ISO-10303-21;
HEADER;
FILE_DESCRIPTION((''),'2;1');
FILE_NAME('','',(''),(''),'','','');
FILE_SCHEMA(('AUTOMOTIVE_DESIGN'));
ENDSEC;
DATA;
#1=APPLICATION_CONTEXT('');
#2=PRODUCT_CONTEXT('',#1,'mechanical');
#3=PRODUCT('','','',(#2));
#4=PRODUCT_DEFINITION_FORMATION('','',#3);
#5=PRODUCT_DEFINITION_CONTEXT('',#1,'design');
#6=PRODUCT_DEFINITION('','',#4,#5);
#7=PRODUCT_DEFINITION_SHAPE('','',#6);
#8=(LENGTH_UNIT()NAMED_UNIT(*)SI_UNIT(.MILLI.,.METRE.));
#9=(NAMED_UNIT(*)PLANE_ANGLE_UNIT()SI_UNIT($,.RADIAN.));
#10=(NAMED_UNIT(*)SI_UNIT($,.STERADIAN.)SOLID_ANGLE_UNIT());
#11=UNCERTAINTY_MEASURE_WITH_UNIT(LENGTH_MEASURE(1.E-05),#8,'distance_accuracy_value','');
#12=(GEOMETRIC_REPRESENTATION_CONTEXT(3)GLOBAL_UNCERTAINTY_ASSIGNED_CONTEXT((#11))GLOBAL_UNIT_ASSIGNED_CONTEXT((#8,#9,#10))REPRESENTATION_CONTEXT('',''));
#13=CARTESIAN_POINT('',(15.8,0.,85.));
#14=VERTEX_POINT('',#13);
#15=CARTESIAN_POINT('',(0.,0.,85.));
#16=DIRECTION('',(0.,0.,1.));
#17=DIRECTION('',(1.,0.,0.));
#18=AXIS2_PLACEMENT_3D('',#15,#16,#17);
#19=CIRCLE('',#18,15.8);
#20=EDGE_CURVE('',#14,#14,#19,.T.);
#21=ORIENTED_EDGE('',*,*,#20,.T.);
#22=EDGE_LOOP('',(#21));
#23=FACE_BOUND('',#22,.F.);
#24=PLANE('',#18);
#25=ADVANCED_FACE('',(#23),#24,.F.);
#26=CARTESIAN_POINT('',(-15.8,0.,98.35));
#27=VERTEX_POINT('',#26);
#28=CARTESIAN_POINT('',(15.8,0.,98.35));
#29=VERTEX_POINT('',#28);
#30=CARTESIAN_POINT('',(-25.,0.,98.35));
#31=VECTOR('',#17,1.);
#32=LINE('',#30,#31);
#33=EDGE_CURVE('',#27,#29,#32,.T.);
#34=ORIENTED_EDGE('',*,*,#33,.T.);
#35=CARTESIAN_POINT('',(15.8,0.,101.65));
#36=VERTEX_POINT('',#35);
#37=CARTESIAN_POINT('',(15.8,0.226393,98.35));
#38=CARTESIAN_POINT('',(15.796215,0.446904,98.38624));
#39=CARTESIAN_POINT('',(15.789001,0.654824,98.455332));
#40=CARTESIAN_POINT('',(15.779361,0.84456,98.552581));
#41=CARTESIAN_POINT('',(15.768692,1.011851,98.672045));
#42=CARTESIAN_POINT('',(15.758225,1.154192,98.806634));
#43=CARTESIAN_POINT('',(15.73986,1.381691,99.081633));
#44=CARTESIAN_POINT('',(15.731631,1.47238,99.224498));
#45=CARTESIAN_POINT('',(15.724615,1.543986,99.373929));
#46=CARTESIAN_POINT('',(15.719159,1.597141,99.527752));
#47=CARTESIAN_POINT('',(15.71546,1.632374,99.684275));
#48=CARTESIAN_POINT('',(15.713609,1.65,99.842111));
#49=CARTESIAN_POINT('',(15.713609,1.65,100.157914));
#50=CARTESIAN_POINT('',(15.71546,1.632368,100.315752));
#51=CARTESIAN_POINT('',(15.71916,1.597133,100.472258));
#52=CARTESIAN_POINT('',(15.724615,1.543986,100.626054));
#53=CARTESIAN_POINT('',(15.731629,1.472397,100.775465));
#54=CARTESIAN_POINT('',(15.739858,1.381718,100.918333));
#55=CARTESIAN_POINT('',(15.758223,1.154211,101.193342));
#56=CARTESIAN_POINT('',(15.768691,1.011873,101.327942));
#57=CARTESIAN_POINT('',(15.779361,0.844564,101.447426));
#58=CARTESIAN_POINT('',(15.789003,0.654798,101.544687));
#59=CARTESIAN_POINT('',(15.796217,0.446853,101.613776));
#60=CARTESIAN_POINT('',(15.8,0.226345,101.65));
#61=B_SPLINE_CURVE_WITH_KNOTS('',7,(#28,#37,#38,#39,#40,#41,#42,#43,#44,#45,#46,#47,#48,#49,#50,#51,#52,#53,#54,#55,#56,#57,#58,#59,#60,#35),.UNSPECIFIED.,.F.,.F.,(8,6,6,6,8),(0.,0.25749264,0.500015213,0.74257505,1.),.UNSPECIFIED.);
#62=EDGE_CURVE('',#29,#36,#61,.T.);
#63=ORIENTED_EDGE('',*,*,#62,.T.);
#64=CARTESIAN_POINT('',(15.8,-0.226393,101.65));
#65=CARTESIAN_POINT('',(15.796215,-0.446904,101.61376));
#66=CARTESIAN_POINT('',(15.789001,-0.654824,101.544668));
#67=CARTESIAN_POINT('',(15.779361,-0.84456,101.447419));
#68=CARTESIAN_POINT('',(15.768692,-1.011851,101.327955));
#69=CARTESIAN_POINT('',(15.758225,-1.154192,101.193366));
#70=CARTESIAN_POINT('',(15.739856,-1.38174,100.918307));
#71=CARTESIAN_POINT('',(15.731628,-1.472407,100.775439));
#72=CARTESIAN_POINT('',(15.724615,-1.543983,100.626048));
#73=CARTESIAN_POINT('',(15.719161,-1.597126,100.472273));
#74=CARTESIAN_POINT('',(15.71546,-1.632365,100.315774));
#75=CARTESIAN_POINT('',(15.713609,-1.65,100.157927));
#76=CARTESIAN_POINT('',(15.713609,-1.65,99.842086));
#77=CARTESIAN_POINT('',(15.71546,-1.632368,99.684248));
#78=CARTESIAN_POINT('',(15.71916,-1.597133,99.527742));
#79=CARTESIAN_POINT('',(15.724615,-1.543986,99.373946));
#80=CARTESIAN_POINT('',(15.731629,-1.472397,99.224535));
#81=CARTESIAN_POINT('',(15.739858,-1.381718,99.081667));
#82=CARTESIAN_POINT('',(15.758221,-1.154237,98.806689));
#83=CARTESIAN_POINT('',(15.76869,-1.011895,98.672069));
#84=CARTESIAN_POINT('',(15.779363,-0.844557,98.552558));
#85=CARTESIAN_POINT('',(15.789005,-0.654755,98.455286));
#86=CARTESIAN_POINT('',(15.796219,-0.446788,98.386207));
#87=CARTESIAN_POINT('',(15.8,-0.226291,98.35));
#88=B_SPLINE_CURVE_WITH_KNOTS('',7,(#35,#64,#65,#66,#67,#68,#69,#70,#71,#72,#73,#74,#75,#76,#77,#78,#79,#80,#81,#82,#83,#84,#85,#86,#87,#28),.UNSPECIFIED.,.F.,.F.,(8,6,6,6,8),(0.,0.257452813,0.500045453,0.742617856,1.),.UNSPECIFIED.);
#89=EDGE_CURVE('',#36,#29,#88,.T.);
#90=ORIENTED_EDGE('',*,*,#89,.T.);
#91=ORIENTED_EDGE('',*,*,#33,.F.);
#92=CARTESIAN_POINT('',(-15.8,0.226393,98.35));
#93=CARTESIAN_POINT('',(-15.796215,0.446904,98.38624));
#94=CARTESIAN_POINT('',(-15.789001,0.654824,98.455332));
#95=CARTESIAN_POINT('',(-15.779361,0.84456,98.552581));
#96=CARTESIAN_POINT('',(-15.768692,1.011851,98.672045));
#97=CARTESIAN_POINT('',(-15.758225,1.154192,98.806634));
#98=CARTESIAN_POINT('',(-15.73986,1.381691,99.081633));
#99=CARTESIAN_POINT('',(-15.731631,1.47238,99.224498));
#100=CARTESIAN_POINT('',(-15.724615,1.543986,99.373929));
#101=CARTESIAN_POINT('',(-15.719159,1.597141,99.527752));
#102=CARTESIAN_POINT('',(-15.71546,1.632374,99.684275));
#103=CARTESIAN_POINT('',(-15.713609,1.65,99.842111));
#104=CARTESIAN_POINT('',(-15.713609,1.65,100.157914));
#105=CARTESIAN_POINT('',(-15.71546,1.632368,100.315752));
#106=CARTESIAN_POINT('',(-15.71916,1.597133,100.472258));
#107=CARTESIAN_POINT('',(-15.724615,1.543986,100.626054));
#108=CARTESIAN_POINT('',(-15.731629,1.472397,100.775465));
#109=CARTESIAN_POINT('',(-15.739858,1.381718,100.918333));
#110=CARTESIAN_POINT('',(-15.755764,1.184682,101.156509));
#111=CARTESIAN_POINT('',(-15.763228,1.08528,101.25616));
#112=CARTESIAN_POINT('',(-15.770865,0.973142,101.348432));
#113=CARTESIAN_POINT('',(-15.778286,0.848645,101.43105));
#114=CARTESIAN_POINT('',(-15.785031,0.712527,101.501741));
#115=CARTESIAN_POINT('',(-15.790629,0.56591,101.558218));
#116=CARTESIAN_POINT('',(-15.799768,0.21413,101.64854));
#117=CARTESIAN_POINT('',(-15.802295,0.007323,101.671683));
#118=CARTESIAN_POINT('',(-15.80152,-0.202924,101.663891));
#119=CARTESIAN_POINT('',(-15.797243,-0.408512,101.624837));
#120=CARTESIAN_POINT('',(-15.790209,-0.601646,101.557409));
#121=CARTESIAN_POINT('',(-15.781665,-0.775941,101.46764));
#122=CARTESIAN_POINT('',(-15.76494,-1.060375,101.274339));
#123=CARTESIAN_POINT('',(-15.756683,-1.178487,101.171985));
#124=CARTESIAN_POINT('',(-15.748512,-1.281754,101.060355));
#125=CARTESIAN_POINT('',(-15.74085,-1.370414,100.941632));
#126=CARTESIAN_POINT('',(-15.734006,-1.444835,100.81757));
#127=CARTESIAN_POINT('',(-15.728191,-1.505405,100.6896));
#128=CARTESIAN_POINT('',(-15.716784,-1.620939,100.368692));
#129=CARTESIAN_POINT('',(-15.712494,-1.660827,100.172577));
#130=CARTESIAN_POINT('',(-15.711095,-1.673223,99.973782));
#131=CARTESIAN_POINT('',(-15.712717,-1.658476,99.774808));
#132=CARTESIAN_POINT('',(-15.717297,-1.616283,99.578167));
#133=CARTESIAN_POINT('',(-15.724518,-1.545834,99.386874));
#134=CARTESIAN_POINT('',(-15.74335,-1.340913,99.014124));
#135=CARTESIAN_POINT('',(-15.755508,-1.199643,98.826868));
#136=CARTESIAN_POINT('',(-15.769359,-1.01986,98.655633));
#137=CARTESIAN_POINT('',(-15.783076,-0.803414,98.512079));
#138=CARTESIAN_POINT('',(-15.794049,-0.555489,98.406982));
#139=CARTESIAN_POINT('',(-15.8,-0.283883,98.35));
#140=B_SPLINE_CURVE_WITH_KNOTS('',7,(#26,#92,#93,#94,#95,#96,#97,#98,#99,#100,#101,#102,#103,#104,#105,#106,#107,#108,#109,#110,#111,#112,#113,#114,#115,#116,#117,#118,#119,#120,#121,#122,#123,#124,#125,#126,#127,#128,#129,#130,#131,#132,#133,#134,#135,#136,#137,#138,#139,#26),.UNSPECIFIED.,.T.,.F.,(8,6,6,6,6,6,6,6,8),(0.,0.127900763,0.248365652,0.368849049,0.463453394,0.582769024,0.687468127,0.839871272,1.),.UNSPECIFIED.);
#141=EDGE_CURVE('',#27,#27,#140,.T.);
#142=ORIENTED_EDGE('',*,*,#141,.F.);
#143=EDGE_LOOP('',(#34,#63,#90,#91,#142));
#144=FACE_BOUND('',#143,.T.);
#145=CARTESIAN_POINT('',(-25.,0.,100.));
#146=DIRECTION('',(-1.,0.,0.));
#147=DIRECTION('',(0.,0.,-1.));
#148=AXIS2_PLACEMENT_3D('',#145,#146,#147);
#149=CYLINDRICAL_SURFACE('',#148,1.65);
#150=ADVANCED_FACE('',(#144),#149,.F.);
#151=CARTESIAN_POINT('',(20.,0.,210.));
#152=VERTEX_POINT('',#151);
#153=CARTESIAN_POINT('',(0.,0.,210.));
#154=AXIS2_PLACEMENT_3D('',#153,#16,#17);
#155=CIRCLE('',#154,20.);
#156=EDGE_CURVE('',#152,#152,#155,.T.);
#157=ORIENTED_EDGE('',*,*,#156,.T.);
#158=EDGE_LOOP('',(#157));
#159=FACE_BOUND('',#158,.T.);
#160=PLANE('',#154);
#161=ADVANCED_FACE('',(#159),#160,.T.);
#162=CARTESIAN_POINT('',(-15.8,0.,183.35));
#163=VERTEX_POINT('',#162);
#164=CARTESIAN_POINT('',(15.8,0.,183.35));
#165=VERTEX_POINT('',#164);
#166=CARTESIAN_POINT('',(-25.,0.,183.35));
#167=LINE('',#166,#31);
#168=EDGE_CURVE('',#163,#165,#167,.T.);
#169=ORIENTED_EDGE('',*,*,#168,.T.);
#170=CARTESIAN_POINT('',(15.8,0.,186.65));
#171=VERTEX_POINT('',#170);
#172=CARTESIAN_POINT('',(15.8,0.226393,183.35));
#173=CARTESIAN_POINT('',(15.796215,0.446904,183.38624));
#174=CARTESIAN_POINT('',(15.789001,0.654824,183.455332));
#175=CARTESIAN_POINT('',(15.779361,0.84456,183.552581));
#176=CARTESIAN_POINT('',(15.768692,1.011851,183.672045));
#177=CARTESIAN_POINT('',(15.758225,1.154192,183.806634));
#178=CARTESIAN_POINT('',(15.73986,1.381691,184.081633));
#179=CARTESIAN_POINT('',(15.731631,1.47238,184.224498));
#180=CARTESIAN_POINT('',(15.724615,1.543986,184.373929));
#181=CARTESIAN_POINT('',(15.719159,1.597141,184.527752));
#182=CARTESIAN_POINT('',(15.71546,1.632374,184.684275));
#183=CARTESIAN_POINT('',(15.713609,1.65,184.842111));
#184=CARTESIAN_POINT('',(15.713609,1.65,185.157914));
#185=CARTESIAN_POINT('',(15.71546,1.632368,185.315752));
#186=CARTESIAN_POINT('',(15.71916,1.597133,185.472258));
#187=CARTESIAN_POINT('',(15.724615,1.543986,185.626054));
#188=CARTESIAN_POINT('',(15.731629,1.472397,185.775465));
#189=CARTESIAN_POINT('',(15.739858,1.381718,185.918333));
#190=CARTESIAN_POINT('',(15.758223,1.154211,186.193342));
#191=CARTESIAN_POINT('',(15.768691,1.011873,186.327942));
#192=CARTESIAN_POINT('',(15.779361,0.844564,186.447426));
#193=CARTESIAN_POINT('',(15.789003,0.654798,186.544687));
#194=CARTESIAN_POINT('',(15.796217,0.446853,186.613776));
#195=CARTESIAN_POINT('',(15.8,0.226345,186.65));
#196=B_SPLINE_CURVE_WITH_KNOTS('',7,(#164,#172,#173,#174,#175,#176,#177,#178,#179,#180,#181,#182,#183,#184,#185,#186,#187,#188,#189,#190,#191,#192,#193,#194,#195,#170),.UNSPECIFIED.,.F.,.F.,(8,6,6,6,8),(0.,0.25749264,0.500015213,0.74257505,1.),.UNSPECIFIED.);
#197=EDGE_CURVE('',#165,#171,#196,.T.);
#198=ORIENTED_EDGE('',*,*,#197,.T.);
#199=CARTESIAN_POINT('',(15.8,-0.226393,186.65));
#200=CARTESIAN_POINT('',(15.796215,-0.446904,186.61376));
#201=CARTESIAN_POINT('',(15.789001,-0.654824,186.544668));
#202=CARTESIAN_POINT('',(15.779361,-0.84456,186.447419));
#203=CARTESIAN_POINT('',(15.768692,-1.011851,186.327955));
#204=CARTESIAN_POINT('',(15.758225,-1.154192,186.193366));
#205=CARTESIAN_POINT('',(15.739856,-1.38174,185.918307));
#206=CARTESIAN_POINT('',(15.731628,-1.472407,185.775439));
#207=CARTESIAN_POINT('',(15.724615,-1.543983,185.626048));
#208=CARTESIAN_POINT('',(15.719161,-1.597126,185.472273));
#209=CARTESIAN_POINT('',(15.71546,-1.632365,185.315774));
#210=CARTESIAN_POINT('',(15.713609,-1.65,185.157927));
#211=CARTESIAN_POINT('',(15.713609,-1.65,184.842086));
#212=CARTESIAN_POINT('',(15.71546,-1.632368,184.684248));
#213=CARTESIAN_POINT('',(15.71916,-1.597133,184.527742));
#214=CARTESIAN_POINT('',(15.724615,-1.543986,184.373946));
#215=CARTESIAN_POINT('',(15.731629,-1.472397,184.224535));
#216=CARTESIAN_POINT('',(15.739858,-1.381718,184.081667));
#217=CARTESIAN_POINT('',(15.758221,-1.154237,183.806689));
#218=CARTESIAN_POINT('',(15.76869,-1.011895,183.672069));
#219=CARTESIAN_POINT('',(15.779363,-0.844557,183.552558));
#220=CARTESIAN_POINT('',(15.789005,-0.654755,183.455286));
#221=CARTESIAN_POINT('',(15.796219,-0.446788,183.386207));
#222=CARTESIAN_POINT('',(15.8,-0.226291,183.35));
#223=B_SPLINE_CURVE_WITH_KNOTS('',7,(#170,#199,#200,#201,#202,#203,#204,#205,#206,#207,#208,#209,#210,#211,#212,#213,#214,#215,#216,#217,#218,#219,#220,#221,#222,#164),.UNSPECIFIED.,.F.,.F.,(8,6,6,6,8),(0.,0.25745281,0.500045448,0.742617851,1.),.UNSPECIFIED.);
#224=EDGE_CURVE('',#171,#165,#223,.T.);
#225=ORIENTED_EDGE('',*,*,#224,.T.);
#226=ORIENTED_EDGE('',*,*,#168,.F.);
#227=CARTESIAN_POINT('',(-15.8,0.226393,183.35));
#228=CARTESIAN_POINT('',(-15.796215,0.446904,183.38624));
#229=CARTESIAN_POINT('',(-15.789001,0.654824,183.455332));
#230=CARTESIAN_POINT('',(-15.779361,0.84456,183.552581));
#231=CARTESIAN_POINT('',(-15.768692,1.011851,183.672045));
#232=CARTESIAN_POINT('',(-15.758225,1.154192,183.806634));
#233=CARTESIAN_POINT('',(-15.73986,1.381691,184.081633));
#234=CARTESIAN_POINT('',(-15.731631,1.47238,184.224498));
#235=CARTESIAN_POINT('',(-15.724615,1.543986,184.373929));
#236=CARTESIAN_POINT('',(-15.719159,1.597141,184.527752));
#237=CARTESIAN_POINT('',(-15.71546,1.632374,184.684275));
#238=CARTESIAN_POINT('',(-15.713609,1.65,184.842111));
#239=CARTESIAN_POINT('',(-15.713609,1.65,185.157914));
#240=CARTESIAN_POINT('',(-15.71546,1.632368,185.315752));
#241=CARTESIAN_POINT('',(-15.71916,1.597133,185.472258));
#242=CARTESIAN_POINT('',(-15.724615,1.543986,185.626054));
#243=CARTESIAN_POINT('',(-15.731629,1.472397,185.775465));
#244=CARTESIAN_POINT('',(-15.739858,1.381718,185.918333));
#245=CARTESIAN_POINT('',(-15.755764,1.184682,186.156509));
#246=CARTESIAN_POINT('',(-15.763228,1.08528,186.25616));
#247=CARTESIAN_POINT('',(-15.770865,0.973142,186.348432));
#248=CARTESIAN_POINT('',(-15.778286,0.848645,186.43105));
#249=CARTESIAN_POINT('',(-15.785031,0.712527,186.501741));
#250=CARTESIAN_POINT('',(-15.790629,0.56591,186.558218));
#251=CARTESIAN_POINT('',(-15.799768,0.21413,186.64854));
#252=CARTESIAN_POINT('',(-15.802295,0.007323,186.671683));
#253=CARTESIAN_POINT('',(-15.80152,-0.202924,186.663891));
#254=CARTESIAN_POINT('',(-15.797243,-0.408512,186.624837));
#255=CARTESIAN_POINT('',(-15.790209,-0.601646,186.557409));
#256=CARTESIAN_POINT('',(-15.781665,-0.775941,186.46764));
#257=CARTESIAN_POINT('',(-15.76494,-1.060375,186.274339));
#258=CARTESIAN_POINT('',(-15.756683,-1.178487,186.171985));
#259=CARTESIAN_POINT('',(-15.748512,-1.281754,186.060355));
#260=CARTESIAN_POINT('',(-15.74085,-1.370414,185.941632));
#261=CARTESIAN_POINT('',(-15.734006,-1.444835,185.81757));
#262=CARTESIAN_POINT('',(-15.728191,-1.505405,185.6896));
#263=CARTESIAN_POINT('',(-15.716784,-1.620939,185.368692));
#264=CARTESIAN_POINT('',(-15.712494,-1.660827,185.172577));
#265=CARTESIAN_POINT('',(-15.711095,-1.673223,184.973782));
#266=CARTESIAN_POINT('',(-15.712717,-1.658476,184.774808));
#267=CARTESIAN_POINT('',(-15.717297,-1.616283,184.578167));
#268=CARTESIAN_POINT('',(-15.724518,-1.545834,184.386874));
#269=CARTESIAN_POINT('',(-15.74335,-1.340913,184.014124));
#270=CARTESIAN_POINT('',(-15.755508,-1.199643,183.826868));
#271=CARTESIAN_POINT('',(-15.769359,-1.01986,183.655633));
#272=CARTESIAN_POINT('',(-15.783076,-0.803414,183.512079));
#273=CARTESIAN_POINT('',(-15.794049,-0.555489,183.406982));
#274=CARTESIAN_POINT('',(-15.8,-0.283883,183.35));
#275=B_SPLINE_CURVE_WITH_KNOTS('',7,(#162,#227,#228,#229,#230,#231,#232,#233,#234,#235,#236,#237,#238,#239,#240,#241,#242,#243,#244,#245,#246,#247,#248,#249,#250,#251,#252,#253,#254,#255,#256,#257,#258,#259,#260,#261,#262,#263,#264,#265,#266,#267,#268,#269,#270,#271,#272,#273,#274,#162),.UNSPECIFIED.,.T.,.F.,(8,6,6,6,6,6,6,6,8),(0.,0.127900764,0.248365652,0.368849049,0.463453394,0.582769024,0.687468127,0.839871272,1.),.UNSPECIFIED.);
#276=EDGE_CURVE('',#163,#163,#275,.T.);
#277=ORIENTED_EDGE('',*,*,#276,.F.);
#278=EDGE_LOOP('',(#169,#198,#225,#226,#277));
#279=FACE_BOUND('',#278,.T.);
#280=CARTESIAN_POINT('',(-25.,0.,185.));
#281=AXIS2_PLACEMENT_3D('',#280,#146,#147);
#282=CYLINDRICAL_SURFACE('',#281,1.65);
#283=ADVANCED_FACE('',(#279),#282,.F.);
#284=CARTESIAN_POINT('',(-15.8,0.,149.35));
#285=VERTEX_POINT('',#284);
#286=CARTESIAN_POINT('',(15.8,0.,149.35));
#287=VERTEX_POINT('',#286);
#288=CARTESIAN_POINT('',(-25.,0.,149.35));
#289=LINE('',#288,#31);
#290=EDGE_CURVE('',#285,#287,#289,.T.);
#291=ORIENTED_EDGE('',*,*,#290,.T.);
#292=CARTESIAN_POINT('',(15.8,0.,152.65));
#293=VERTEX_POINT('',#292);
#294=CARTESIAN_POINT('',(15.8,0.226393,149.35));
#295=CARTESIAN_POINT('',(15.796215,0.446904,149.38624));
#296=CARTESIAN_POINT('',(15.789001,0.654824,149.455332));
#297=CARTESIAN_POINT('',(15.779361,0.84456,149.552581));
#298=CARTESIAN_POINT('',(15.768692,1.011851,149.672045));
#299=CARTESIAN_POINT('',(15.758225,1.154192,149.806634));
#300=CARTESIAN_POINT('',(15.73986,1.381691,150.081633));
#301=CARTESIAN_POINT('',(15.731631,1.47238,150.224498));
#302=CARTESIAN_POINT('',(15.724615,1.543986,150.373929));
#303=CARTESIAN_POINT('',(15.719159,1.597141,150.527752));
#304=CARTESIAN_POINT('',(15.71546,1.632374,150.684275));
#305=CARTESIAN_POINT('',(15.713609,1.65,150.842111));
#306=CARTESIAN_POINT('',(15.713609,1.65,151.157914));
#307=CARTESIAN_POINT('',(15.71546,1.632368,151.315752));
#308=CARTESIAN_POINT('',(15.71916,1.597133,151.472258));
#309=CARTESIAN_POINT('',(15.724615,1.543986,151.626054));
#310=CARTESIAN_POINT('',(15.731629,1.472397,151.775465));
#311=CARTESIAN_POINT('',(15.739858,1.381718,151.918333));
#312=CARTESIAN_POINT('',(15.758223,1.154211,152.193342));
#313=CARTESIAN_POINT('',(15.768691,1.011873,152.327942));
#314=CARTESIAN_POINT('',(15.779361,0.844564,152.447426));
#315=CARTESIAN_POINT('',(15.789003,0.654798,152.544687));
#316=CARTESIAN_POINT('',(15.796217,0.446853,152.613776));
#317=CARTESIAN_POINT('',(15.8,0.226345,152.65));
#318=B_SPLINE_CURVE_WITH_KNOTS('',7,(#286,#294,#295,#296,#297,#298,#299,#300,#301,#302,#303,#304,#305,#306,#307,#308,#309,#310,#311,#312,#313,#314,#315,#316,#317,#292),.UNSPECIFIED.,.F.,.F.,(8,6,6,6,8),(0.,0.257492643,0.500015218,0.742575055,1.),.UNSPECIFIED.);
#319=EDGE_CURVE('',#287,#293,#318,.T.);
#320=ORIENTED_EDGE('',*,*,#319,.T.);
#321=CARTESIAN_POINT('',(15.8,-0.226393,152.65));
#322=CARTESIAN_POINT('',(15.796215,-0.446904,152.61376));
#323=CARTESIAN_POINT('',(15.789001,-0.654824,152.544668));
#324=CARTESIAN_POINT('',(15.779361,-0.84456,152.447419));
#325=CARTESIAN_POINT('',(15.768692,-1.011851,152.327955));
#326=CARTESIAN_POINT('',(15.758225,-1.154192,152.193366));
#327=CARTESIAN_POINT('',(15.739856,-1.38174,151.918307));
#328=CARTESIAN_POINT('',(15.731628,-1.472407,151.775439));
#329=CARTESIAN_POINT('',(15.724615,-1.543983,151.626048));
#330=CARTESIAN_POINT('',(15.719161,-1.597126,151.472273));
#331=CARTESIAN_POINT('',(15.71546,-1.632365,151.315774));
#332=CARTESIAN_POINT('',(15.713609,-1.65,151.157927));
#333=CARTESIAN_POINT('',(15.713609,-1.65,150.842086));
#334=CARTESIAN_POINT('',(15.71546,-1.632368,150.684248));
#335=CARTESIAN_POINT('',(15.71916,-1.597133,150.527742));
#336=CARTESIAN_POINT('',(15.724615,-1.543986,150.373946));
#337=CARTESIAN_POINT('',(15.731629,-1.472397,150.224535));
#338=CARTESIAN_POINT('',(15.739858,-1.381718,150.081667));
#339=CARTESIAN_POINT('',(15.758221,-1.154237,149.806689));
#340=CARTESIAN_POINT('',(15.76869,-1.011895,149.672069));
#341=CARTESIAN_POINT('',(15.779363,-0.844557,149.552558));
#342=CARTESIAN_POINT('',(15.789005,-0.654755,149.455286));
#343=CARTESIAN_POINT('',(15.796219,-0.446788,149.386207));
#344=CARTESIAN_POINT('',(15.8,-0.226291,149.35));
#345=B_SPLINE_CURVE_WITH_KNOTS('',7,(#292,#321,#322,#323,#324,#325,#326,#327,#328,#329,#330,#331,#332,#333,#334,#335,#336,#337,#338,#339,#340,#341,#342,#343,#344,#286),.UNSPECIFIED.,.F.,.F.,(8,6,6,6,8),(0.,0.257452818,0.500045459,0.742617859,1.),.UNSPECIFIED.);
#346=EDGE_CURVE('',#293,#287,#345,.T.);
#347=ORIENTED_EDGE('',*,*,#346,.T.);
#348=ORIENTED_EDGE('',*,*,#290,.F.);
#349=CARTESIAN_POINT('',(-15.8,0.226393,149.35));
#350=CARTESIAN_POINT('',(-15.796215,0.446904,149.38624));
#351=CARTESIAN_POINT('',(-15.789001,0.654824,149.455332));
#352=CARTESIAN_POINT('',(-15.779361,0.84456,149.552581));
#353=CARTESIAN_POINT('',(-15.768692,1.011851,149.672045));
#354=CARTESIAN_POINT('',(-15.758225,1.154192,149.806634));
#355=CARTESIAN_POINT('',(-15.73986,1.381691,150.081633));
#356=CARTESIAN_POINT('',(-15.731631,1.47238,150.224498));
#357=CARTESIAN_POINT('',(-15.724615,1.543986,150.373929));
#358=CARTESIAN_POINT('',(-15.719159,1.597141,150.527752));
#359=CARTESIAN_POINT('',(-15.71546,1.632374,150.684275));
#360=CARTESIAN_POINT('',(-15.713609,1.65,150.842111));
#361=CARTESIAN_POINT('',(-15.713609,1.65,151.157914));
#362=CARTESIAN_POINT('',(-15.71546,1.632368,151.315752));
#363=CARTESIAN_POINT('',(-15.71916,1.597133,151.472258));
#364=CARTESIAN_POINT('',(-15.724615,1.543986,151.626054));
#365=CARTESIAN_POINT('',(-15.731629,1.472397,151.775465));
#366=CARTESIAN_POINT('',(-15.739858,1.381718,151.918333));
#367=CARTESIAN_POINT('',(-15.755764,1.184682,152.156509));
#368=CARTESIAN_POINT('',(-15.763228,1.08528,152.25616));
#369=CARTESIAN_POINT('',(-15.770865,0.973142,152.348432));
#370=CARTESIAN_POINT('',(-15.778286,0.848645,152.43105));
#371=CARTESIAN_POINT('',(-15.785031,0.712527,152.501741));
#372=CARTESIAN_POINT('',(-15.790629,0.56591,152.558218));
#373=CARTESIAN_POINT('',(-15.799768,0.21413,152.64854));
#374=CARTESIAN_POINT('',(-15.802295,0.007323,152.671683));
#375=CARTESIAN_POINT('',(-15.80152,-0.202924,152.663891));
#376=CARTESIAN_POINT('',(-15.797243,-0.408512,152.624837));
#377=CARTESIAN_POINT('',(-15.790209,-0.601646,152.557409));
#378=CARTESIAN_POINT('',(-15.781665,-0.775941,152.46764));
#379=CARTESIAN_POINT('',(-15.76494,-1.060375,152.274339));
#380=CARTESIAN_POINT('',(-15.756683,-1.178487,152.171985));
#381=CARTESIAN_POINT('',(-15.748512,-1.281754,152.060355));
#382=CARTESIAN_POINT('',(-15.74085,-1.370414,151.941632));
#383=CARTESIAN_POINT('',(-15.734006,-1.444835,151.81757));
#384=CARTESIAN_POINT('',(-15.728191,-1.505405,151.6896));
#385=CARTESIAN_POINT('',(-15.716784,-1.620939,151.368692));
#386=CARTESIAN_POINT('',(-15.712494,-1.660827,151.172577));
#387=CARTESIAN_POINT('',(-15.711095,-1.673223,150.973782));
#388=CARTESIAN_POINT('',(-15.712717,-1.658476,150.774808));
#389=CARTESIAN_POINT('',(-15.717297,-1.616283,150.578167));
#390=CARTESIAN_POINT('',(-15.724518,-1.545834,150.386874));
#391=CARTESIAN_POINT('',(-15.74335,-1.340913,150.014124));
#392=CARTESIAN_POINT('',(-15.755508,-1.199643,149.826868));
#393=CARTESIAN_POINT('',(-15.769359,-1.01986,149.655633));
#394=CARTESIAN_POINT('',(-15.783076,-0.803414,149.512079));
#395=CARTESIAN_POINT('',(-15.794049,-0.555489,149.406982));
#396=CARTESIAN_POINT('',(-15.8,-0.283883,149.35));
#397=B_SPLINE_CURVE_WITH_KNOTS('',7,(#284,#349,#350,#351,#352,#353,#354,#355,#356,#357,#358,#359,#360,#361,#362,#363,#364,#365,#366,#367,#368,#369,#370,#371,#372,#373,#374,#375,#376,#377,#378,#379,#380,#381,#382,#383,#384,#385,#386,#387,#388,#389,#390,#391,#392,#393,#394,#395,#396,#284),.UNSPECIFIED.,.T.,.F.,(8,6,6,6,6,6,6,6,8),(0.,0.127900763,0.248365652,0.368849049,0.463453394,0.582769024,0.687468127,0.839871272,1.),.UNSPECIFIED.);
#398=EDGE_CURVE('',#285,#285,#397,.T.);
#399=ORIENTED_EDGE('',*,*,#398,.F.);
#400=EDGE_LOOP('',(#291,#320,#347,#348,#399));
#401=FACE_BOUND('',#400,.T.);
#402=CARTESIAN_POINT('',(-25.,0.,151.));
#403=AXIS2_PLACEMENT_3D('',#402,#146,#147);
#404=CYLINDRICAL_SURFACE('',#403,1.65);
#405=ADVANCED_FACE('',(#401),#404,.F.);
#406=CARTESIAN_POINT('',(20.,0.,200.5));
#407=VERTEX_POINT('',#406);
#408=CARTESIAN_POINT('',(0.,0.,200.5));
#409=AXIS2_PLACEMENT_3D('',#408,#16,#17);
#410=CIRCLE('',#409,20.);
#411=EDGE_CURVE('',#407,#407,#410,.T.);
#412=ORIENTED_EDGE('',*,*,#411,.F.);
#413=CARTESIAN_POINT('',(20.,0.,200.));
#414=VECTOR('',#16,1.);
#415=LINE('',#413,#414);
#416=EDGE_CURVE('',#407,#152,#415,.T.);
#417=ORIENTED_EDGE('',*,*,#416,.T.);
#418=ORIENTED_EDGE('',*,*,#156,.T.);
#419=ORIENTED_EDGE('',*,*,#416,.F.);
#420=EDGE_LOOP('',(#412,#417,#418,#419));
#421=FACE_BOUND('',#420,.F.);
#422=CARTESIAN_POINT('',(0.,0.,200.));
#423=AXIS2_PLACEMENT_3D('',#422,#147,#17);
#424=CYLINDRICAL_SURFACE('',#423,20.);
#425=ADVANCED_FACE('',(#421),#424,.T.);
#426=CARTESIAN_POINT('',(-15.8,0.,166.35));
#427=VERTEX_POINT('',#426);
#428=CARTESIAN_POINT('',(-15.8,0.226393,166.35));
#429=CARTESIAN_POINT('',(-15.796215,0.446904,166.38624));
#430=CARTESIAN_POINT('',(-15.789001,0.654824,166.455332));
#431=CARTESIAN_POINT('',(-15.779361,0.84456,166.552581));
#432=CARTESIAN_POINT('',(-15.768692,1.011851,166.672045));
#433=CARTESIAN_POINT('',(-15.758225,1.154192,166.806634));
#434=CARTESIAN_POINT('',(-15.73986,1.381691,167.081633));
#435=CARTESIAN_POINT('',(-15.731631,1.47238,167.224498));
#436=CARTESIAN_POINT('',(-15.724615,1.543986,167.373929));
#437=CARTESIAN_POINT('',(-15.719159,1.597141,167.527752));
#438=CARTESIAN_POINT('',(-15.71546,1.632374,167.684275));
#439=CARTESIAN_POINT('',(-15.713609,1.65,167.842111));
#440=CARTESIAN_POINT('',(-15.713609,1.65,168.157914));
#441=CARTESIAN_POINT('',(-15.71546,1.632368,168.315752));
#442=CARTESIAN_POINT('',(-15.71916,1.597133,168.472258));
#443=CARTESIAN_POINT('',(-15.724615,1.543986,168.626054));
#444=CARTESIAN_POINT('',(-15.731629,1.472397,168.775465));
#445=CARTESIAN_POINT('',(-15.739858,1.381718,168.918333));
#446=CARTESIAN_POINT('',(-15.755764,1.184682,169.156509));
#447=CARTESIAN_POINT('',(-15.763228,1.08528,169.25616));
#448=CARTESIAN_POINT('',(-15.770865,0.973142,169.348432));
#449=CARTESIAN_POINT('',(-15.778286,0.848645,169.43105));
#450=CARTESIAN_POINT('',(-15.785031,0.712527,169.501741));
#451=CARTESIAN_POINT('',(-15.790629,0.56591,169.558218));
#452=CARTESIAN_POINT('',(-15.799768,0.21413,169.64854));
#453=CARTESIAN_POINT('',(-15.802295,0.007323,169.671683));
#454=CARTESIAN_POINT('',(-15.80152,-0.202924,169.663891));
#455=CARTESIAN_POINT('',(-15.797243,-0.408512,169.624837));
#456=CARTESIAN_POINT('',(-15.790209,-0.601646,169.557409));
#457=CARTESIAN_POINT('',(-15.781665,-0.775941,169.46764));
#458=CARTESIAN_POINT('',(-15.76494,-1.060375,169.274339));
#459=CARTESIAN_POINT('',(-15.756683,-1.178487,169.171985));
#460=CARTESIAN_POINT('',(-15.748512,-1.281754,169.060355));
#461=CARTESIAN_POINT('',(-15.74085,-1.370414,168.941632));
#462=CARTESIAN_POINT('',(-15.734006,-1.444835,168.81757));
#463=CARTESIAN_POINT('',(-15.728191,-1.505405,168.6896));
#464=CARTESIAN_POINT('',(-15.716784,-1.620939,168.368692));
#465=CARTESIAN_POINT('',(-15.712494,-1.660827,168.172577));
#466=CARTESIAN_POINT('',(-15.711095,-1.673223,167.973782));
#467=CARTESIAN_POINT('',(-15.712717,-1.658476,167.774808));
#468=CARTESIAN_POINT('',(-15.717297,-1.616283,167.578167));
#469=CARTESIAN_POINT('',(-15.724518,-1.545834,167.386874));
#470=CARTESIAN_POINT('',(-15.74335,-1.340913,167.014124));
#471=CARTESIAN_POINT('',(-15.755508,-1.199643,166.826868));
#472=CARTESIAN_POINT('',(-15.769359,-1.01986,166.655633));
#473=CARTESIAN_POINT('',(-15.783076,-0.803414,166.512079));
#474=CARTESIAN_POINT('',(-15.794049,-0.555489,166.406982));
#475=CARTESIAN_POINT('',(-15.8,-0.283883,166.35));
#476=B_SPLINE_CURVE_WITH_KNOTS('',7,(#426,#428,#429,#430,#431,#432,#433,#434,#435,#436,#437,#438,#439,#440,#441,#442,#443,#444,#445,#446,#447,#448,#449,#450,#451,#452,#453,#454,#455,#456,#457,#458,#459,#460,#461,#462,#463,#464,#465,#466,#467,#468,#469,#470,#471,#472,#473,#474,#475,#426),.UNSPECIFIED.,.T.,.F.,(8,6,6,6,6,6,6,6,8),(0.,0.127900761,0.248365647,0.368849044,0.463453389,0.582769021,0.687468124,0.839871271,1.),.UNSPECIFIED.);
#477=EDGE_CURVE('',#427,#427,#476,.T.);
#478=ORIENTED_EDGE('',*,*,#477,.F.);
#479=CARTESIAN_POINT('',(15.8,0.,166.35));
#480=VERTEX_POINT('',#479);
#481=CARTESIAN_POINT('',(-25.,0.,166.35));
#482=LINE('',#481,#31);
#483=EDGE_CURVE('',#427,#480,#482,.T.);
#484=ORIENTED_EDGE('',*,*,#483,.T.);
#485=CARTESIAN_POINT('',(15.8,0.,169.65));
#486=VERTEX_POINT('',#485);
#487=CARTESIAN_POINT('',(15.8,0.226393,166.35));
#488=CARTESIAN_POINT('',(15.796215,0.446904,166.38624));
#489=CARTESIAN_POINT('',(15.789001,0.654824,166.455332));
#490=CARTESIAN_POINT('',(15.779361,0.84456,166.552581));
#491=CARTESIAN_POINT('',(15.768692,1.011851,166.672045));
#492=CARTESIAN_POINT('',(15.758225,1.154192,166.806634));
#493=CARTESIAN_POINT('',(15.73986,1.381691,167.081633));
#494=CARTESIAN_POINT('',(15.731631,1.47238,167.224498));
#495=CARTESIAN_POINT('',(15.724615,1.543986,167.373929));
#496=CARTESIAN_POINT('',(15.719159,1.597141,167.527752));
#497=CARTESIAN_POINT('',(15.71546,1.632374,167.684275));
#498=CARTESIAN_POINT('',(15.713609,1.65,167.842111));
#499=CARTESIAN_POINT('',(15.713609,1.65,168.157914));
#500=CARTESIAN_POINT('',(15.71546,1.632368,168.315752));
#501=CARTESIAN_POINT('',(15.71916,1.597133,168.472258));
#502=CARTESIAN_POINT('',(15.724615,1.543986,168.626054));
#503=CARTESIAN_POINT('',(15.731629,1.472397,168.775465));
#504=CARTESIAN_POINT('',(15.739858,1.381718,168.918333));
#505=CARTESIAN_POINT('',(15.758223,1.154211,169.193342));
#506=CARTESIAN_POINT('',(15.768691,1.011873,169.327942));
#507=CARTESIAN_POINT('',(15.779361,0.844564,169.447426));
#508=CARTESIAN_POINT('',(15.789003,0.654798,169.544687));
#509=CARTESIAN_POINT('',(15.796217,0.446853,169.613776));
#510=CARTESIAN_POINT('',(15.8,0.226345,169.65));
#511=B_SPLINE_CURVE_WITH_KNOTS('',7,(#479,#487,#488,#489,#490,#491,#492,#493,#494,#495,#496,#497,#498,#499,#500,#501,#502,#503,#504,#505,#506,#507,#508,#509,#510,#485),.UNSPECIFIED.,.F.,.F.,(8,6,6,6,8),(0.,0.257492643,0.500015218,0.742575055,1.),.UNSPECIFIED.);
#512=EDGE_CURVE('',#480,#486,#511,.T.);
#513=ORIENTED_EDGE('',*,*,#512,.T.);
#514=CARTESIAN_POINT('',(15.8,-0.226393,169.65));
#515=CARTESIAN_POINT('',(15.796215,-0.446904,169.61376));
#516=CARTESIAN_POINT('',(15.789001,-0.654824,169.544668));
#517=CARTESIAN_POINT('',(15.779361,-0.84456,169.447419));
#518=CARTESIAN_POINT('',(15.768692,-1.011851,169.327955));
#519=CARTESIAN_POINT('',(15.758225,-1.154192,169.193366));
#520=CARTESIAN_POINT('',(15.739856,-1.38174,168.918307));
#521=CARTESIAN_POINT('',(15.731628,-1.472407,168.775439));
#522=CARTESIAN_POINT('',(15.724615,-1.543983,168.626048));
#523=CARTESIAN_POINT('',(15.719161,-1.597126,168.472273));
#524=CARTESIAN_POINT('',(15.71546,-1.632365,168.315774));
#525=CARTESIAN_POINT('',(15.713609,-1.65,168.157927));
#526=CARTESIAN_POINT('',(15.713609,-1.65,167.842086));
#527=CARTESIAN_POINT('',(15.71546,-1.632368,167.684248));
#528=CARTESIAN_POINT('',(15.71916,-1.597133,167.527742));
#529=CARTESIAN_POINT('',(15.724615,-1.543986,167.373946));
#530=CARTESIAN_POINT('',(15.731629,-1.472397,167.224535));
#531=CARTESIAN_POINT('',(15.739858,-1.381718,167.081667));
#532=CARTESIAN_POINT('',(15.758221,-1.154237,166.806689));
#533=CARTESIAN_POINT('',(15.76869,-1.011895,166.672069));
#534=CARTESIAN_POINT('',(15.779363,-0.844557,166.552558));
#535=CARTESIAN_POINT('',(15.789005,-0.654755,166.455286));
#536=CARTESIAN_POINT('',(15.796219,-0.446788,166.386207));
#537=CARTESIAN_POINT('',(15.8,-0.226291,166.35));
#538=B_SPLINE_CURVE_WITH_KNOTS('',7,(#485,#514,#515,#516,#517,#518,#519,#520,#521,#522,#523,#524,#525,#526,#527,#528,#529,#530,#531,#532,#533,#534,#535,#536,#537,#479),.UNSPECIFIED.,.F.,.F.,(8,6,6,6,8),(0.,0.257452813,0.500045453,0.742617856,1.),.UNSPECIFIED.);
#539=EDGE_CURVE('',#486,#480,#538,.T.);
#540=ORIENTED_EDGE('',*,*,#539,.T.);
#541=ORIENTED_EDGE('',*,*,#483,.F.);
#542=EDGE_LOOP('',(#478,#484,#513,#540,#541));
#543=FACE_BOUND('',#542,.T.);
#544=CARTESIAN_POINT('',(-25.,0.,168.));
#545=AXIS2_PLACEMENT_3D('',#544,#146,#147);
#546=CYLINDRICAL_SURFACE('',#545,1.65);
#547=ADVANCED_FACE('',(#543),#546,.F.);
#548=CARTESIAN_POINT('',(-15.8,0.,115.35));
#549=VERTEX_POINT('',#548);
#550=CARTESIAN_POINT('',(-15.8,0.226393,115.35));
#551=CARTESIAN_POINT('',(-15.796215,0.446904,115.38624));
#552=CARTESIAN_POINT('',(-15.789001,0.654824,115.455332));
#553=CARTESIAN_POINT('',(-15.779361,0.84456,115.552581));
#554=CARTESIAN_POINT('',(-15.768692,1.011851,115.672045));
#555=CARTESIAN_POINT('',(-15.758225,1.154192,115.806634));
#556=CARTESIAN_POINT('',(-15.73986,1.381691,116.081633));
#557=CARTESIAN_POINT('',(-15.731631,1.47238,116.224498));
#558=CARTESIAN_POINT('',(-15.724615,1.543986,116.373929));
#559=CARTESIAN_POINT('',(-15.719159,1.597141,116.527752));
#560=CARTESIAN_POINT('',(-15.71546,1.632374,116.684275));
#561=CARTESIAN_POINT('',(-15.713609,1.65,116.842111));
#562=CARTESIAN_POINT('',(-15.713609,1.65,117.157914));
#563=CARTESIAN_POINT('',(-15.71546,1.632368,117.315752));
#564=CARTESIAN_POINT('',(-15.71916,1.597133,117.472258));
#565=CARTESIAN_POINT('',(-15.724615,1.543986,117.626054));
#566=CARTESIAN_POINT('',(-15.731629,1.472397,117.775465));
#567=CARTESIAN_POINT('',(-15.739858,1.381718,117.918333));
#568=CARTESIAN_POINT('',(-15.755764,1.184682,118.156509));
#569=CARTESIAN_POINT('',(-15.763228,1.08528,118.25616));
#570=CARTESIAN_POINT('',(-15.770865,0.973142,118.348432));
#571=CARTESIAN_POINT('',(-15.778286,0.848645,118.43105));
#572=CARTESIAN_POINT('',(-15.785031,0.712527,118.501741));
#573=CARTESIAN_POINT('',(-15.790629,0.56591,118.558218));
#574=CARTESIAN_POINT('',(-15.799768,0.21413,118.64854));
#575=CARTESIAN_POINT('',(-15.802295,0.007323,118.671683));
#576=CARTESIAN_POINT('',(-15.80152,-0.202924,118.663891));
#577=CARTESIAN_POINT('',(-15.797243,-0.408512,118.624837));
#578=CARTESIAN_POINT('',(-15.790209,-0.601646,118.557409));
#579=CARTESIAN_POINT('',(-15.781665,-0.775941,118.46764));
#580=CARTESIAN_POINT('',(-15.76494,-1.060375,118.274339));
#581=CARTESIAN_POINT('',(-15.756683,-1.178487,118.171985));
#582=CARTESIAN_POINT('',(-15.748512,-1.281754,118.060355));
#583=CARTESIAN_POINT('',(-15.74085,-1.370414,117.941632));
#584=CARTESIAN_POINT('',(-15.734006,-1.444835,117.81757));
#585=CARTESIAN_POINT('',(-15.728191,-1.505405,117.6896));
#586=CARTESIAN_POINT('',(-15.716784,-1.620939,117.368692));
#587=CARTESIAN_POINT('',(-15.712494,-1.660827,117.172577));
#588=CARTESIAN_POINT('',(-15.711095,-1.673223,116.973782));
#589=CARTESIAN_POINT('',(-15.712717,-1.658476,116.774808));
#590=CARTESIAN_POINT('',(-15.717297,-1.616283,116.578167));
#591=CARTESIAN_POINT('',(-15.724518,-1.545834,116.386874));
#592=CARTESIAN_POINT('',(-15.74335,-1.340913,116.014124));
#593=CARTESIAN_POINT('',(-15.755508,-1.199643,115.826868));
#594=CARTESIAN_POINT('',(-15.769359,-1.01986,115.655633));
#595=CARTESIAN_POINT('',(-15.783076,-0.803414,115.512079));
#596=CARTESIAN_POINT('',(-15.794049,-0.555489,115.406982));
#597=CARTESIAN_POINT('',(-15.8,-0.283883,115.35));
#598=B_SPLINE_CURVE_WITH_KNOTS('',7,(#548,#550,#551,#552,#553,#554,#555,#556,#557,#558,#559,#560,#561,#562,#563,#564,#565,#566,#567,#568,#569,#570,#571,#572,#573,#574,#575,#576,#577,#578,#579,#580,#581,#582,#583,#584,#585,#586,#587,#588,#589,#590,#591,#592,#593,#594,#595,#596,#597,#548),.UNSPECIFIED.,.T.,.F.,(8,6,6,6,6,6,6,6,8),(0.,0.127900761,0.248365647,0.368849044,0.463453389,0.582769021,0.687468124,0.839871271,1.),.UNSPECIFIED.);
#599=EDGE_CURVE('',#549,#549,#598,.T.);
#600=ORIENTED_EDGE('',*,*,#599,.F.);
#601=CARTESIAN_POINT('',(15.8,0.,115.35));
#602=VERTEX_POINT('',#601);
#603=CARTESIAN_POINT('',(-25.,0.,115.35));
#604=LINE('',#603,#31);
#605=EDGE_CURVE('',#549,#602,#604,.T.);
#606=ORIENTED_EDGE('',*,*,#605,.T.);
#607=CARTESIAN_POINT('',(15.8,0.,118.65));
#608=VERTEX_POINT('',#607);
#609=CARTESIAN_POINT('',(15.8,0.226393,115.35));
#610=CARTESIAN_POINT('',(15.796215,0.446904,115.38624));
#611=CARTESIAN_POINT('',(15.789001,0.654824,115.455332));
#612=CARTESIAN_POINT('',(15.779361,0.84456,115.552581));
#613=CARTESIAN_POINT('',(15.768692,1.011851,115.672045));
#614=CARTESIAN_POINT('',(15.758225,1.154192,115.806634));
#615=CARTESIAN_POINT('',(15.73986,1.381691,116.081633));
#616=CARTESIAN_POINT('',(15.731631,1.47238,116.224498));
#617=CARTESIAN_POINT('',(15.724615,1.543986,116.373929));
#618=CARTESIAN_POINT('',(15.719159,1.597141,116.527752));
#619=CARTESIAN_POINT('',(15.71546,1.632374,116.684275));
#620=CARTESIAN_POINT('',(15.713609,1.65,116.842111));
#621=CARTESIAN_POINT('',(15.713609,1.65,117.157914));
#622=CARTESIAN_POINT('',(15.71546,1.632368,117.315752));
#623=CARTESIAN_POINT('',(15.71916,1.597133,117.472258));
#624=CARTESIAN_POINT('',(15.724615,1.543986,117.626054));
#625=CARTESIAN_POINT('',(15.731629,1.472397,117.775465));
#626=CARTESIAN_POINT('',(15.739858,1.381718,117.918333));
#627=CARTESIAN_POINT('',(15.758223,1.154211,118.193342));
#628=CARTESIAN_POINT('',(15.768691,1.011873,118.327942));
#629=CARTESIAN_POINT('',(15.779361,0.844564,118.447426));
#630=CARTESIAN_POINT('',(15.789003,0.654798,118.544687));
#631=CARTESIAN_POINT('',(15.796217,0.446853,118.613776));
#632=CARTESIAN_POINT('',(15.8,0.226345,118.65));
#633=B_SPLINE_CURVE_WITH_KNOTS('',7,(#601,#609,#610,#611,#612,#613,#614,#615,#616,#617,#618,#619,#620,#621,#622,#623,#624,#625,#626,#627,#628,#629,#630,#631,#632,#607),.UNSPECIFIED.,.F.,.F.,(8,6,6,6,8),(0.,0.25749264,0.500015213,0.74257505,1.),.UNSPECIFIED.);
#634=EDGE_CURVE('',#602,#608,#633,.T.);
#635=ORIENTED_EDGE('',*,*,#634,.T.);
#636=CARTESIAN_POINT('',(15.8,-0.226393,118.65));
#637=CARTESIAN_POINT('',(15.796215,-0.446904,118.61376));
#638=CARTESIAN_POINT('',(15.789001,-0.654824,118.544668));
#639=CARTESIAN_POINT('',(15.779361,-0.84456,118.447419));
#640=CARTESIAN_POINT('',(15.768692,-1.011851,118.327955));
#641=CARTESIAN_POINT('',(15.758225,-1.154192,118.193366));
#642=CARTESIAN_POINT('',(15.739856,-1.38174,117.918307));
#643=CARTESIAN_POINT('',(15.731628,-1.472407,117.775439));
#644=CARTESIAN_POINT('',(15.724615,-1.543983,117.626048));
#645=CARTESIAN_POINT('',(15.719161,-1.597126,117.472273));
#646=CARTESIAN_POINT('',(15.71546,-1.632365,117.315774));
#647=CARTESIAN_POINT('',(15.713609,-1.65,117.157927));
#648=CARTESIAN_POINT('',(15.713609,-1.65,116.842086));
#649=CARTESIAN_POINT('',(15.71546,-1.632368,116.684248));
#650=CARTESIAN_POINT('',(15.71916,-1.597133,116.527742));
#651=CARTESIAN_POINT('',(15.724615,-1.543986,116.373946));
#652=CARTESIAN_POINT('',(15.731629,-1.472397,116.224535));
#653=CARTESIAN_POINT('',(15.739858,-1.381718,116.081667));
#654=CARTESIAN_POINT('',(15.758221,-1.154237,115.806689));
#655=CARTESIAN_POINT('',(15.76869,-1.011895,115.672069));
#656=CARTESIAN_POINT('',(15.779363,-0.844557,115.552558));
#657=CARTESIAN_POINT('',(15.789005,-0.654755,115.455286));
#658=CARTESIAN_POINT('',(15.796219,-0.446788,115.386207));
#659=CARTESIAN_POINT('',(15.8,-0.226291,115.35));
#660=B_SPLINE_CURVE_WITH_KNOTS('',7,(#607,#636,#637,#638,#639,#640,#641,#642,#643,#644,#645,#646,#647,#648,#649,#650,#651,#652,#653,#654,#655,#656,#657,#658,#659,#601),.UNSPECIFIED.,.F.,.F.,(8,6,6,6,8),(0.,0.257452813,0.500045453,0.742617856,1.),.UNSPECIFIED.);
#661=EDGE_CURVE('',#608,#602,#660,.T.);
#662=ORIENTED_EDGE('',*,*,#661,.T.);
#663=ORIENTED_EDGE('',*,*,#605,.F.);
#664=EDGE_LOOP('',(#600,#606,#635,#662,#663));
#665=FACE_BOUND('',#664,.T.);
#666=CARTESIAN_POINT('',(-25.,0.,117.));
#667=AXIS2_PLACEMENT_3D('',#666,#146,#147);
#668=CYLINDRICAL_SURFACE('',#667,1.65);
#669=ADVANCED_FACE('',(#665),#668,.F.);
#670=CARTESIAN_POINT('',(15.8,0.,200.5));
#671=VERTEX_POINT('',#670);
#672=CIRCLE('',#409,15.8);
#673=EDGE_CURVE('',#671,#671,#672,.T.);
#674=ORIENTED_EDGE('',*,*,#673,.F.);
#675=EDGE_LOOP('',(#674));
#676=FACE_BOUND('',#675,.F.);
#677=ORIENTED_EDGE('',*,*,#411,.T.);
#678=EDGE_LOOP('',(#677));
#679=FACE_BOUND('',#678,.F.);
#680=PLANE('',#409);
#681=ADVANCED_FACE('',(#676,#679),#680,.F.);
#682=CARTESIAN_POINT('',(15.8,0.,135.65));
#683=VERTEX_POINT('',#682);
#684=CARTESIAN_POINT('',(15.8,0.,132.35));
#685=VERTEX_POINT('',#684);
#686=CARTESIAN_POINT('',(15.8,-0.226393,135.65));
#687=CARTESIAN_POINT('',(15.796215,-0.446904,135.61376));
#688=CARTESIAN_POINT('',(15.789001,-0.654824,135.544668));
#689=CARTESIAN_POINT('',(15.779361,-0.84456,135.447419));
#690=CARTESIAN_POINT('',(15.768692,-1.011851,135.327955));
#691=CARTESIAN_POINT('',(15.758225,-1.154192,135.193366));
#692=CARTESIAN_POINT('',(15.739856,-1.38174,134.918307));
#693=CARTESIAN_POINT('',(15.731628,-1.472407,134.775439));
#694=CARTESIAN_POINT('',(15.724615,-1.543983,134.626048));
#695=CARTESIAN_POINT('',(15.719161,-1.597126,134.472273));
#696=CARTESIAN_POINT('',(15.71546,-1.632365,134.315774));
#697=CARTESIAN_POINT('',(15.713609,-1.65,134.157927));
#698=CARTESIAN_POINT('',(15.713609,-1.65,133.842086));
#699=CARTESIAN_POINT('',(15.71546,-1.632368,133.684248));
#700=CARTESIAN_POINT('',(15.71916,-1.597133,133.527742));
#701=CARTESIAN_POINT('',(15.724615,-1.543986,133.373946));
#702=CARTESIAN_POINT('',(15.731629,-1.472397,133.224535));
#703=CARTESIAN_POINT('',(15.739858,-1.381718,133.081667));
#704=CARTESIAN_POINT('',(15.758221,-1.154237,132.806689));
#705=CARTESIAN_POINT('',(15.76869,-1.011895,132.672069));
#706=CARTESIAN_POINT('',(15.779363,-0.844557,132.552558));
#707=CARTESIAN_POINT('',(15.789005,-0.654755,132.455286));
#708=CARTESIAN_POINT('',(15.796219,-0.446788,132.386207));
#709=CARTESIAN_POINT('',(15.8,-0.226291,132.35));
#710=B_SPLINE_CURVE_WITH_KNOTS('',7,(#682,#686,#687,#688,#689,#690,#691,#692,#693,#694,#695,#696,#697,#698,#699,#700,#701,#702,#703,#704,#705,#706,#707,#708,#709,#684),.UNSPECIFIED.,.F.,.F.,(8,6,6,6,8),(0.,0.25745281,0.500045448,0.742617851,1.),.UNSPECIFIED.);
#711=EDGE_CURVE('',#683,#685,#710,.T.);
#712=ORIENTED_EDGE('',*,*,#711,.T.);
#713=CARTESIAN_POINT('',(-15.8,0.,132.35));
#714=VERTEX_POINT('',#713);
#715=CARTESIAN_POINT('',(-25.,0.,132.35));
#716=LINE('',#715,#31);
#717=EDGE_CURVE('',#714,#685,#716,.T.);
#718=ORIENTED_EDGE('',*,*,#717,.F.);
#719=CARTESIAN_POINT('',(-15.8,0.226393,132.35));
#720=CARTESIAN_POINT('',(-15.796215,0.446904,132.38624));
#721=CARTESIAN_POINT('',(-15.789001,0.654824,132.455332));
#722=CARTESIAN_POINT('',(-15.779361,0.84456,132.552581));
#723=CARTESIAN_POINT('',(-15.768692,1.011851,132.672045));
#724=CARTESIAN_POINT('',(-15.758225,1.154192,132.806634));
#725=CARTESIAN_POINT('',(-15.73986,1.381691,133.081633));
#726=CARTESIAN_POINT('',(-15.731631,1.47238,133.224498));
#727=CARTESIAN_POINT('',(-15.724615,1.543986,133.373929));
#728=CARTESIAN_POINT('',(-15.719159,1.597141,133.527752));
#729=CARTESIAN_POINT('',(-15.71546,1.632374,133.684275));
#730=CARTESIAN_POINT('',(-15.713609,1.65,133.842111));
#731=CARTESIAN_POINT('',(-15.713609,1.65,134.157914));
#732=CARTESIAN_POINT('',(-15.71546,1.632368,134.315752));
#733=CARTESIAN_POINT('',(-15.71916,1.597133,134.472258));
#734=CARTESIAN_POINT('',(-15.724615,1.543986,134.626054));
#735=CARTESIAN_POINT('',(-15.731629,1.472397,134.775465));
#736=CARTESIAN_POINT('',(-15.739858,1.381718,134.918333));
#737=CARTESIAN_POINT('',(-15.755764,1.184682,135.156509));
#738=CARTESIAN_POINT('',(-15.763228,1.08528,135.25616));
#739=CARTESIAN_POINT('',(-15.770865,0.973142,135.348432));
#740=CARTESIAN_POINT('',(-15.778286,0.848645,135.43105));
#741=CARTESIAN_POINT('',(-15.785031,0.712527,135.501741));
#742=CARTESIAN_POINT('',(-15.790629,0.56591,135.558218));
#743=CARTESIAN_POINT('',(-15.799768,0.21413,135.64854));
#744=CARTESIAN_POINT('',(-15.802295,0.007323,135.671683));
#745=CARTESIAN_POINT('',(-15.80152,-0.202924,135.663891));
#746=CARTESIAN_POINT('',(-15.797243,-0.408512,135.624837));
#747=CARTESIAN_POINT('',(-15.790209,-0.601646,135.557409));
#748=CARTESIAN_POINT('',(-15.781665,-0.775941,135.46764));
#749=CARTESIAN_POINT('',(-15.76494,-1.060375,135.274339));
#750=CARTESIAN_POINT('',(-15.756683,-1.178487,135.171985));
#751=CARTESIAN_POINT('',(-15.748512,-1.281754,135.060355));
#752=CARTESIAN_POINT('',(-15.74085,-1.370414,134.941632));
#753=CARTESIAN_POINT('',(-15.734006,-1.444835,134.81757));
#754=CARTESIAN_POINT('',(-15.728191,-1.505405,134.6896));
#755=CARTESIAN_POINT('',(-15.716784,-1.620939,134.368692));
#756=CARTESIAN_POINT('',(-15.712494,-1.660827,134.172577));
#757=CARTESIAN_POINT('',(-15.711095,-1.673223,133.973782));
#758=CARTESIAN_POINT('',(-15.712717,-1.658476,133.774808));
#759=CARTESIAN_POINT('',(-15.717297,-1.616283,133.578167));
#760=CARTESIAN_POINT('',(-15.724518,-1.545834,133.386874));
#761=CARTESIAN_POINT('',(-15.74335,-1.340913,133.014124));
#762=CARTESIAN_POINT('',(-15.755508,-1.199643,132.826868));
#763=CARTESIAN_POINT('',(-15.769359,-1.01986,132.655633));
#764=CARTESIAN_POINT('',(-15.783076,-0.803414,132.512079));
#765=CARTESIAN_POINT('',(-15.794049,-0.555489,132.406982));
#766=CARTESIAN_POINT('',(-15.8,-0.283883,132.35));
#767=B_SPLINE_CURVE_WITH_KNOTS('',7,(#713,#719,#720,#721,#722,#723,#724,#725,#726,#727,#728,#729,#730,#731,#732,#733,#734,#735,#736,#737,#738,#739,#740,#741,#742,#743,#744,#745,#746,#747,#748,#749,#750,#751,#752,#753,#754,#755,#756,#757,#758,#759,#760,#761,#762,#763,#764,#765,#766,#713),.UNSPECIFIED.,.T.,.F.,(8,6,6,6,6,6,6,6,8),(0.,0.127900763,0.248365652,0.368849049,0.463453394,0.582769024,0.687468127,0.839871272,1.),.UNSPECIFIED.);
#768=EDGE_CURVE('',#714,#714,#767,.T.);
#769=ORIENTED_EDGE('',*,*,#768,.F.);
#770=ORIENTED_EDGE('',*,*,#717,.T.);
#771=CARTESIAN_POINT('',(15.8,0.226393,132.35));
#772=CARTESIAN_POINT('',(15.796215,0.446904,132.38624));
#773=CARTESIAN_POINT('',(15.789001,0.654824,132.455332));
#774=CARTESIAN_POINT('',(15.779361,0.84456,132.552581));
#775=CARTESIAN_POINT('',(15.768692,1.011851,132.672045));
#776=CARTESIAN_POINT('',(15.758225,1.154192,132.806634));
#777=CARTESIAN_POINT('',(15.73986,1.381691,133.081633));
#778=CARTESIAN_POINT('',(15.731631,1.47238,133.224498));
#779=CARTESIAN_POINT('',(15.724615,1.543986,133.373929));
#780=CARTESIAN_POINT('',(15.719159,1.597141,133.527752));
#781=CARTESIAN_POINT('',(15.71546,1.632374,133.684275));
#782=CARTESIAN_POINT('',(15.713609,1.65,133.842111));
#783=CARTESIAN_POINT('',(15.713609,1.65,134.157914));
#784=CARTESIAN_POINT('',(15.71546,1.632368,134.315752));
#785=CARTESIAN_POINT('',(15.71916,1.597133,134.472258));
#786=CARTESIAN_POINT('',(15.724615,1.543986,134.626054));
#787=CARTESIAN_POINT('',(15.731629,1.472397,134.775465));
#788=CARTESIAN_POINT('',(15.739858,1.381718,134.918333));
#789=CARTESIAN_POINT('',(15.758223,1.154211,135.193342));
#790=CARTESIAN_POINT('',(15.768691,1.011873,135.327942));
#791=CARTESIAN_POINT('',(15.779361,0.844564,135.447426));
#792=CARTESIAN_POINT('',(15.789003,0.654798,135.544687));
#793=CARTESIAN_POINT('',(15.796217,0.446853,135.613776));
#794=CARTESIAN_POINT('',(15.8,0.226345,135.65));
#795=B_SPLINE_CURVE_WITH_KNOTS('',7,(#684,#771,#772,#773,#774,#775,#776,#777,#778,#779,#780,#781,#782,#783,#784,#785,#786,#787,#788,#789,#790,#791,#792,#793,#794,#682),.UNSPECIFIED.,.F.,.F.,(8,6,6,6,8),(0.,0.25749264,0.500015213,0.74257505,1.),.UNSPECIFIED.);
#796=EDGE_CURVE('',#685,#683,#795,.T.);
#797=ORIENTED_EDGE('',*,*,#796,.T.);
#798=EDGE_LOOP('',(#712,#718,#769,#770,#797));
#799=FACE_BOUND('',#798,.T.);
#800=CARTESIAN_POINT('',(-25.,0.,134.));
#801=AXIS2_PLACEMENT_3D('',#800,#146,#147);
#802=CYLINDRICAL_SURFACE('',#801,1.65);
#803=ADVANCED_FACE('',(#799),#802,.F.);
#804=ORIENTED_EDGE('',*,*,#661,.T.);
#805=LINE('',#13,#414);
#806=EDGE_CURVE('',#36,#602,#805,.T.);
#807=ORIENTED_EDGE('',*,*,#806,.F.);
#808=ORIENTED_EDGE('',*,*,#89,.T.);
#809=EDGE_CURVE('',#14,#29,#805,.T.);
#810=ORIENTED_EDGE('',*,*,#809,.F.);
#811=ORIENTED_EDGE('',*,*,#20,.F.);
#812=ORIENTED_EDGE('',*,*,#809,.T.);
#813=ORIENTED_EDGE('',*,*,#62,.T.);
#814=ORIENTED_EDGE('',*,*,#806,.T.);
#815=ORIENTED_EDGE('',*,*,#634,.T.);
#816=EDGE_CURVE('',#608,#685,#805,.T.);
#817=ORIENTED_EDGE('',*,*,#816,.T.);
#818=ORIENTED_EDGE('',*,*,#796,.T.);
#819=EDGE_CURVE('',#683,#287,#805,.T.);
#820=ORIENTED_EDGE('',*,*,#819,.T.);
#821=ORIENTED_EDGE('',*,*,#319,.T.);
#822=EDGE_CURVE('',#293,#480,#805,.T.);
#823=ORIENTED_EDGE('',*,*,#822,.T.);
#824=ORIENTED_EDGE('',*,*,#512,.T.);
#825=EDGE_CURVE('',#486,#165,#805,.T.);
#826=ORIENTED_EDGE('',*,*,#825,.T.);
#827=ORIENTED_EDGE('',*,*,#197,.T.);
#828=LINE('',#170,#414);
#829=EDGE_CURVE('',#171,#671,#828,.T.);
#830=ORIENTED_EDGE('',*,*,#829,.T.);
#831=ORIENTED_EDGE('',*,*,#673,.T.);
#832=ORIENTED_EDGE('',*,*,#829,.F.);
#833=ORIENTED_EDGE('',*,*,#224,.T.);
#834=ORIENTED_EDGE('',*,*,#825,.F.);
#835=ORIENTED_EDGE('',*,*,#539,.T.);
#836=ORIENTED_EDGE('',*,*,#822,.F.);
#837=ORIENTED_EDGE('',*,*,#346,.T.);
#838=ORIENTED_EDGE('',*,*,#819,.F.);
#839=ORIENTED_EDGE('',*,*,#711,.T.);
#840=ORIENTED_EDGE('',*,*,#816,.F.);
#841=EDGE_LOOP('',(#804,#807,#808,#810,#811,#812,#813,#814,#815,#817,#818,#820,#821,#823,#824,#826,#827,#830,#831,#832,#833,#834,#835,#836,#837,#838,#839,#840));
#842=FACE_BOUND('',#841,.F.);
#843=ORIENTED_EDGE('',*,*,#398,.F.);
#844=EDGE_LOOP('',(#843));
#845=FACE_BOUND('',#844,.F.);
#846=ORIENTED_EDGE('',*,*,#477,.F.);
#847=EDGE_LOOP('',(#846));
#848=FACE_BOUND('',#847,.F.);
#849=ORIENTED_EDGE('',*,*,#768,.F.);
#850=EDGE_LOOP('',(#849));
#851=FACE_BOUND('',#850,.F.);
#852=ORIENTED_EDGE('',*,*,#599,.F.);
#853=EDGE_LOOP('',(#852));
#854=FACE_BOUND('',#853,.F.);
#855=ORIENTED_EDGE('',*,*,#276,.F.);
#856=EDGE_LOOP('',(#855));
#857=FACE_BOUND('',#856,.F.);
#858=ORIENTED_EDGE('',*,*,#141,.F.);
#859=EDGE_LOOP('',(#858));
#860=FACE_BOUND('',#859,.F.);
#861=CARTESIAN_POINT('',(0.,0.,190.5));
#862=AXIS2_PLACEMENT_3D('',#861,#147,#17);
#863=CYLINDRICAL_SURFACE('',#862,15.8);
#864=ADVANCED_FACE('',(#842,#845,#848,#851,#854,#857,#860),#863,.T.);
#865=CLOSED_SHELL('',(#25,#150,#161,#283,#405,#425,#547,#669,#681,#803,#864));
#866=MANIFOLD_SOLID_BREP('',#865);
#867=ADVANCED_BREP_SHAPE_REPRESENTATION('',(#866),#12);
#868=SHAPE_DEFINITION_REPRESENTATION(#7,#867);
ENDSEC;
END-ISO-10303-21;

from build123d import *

# Parameters (mm, degrees)
CYLINDER017_R     = 15.8
CYLINDER017_DEPTH = 10
CYLINDER018_R     = 20
CYLINDER018_DEPTH = 10
CYLINDER016_R     = 1.65
CYLINDER016_DEPTH = 50
ARRAY002_Z_COUNT  = 6
ARRAY002_Z_PITCH  = 17
CYLINDER020_R     = 1.65
CYLINDER020_DEPTH = 50
CYLINDER015_R     = 1.65
CYLINDER015_DEPTH = 50
CYLINDER019_R     = 20
CYLINDER019_DEPTH = 10
CYLINDER014_R     = 15.8
CYLINDER014_DEPTH = 115


with BuildPart() as cylinder016:
    # Cylinder017 → Cylinder017 (new body)
    with BuildSketch(Plane.XY):
        Circle(CYLINDER017_R)
    extrude(amount=CYLINDER017_DEPTH)


with BuildPart() as cut012:
    # Cylinder018 → Cylinder018 (new body)
    with BuildSketch(Plane.XY):
        Circle(CYLINDER018_R)
    extrude(amount=CYLINDER018_DEPTH)

    # Cut012: cut Cylinder016
    add(cylinder016.part, mode=Mode.SUBTRACT)


with BuildPart() as cut012_1:
    # Cut012 placement: moved
    add(cut012.part.moved(Location((0, 0, 190.5))))


with BuildPart() as array002:
    # Cylinder016 → Cylinder016 (new body)
    with BuildSketch(Plane(origin=(-25, 0, 15), x_dir=(0, 0, -1), z_dir=(1, 0, 0))):
        Circle(CYLINDER016_R)
    extrude(amount=CYLINDER016_DEPTH)

    # Array002 Z: Array002 ×6


with BuildPart() as array002_1:
    add(array002.part)
    with Locations(*[(0, 0, i * ARRAY002_Z_PITCH) for i in range(1, ARRAY002_Z_COUNT)]):
        add(array002.part)


with BuildPart() as array002_2:
    # Array002 placement: moved
    add(array002_1.part.moved(Location((0, 0, 85))))


with BuildPart() as cylinder020:
    # Cylinder020 → Cylinder020 (new body)
    with BuildSketch(Plane(origin=(-25, 0, 15), x_dir=(0, 0, -1), z_dir=(1, 0, 0))):
        Circle(CYLINDER020_R)
    extrude(amount=CYLINDER020_DEPTH)


with BuildPart() as cylinder013:
    # Cylinder015 → Cylinder015 (new body)
    with BuildSketch(Plane(origin=(-25, 0, 100), x_dir=(0, 0, -1), z_dir=(1, 0, 0))):
        Circle(CYLINDER015_R)
    extrude(amount=CYLINDER015_DEPTH)


with BuildPart() as cylinder019:
    # Cylinder019 → Cylinder019 (new body)
    with BuildSketch(Plane.XY.offset(115)):
        Circle(CYLINDER019_R)
    extrude(amount=CYLINDER019_DEPTH)


with BuildPart() as cut011:
    # Cylinder014 → Cylinder014 (new body)
    with BuildSketch(Plane.XY):
        Circle(CYLINDER014_R)
    extrude(amount=CYLINDER014_DEPTH)

    # Fusion002: union Cylinder019
    add(cylinder019.part)

    # Cut013: cut Cylinder013
    add(cylinder013.part, mode=Mode.SUBTRACT)

    # Cut014: cut Cylinder020
    add(cylinder020.part, mode=Mode.SUBTRACT)


with BuildPart() as cut011_1:
    # Cut014 placement: moved
    add(cut011.part.moved(Location((0, 0, 85))))

    # Cut010: cut Array002
    add(array002_2.part, mode=Mode.SUBTRACT)

    # Cut011: cut Cut012
    add(cut012_1.part, mode=Mode.SUBTRACT)


solid = cut011_1.part
